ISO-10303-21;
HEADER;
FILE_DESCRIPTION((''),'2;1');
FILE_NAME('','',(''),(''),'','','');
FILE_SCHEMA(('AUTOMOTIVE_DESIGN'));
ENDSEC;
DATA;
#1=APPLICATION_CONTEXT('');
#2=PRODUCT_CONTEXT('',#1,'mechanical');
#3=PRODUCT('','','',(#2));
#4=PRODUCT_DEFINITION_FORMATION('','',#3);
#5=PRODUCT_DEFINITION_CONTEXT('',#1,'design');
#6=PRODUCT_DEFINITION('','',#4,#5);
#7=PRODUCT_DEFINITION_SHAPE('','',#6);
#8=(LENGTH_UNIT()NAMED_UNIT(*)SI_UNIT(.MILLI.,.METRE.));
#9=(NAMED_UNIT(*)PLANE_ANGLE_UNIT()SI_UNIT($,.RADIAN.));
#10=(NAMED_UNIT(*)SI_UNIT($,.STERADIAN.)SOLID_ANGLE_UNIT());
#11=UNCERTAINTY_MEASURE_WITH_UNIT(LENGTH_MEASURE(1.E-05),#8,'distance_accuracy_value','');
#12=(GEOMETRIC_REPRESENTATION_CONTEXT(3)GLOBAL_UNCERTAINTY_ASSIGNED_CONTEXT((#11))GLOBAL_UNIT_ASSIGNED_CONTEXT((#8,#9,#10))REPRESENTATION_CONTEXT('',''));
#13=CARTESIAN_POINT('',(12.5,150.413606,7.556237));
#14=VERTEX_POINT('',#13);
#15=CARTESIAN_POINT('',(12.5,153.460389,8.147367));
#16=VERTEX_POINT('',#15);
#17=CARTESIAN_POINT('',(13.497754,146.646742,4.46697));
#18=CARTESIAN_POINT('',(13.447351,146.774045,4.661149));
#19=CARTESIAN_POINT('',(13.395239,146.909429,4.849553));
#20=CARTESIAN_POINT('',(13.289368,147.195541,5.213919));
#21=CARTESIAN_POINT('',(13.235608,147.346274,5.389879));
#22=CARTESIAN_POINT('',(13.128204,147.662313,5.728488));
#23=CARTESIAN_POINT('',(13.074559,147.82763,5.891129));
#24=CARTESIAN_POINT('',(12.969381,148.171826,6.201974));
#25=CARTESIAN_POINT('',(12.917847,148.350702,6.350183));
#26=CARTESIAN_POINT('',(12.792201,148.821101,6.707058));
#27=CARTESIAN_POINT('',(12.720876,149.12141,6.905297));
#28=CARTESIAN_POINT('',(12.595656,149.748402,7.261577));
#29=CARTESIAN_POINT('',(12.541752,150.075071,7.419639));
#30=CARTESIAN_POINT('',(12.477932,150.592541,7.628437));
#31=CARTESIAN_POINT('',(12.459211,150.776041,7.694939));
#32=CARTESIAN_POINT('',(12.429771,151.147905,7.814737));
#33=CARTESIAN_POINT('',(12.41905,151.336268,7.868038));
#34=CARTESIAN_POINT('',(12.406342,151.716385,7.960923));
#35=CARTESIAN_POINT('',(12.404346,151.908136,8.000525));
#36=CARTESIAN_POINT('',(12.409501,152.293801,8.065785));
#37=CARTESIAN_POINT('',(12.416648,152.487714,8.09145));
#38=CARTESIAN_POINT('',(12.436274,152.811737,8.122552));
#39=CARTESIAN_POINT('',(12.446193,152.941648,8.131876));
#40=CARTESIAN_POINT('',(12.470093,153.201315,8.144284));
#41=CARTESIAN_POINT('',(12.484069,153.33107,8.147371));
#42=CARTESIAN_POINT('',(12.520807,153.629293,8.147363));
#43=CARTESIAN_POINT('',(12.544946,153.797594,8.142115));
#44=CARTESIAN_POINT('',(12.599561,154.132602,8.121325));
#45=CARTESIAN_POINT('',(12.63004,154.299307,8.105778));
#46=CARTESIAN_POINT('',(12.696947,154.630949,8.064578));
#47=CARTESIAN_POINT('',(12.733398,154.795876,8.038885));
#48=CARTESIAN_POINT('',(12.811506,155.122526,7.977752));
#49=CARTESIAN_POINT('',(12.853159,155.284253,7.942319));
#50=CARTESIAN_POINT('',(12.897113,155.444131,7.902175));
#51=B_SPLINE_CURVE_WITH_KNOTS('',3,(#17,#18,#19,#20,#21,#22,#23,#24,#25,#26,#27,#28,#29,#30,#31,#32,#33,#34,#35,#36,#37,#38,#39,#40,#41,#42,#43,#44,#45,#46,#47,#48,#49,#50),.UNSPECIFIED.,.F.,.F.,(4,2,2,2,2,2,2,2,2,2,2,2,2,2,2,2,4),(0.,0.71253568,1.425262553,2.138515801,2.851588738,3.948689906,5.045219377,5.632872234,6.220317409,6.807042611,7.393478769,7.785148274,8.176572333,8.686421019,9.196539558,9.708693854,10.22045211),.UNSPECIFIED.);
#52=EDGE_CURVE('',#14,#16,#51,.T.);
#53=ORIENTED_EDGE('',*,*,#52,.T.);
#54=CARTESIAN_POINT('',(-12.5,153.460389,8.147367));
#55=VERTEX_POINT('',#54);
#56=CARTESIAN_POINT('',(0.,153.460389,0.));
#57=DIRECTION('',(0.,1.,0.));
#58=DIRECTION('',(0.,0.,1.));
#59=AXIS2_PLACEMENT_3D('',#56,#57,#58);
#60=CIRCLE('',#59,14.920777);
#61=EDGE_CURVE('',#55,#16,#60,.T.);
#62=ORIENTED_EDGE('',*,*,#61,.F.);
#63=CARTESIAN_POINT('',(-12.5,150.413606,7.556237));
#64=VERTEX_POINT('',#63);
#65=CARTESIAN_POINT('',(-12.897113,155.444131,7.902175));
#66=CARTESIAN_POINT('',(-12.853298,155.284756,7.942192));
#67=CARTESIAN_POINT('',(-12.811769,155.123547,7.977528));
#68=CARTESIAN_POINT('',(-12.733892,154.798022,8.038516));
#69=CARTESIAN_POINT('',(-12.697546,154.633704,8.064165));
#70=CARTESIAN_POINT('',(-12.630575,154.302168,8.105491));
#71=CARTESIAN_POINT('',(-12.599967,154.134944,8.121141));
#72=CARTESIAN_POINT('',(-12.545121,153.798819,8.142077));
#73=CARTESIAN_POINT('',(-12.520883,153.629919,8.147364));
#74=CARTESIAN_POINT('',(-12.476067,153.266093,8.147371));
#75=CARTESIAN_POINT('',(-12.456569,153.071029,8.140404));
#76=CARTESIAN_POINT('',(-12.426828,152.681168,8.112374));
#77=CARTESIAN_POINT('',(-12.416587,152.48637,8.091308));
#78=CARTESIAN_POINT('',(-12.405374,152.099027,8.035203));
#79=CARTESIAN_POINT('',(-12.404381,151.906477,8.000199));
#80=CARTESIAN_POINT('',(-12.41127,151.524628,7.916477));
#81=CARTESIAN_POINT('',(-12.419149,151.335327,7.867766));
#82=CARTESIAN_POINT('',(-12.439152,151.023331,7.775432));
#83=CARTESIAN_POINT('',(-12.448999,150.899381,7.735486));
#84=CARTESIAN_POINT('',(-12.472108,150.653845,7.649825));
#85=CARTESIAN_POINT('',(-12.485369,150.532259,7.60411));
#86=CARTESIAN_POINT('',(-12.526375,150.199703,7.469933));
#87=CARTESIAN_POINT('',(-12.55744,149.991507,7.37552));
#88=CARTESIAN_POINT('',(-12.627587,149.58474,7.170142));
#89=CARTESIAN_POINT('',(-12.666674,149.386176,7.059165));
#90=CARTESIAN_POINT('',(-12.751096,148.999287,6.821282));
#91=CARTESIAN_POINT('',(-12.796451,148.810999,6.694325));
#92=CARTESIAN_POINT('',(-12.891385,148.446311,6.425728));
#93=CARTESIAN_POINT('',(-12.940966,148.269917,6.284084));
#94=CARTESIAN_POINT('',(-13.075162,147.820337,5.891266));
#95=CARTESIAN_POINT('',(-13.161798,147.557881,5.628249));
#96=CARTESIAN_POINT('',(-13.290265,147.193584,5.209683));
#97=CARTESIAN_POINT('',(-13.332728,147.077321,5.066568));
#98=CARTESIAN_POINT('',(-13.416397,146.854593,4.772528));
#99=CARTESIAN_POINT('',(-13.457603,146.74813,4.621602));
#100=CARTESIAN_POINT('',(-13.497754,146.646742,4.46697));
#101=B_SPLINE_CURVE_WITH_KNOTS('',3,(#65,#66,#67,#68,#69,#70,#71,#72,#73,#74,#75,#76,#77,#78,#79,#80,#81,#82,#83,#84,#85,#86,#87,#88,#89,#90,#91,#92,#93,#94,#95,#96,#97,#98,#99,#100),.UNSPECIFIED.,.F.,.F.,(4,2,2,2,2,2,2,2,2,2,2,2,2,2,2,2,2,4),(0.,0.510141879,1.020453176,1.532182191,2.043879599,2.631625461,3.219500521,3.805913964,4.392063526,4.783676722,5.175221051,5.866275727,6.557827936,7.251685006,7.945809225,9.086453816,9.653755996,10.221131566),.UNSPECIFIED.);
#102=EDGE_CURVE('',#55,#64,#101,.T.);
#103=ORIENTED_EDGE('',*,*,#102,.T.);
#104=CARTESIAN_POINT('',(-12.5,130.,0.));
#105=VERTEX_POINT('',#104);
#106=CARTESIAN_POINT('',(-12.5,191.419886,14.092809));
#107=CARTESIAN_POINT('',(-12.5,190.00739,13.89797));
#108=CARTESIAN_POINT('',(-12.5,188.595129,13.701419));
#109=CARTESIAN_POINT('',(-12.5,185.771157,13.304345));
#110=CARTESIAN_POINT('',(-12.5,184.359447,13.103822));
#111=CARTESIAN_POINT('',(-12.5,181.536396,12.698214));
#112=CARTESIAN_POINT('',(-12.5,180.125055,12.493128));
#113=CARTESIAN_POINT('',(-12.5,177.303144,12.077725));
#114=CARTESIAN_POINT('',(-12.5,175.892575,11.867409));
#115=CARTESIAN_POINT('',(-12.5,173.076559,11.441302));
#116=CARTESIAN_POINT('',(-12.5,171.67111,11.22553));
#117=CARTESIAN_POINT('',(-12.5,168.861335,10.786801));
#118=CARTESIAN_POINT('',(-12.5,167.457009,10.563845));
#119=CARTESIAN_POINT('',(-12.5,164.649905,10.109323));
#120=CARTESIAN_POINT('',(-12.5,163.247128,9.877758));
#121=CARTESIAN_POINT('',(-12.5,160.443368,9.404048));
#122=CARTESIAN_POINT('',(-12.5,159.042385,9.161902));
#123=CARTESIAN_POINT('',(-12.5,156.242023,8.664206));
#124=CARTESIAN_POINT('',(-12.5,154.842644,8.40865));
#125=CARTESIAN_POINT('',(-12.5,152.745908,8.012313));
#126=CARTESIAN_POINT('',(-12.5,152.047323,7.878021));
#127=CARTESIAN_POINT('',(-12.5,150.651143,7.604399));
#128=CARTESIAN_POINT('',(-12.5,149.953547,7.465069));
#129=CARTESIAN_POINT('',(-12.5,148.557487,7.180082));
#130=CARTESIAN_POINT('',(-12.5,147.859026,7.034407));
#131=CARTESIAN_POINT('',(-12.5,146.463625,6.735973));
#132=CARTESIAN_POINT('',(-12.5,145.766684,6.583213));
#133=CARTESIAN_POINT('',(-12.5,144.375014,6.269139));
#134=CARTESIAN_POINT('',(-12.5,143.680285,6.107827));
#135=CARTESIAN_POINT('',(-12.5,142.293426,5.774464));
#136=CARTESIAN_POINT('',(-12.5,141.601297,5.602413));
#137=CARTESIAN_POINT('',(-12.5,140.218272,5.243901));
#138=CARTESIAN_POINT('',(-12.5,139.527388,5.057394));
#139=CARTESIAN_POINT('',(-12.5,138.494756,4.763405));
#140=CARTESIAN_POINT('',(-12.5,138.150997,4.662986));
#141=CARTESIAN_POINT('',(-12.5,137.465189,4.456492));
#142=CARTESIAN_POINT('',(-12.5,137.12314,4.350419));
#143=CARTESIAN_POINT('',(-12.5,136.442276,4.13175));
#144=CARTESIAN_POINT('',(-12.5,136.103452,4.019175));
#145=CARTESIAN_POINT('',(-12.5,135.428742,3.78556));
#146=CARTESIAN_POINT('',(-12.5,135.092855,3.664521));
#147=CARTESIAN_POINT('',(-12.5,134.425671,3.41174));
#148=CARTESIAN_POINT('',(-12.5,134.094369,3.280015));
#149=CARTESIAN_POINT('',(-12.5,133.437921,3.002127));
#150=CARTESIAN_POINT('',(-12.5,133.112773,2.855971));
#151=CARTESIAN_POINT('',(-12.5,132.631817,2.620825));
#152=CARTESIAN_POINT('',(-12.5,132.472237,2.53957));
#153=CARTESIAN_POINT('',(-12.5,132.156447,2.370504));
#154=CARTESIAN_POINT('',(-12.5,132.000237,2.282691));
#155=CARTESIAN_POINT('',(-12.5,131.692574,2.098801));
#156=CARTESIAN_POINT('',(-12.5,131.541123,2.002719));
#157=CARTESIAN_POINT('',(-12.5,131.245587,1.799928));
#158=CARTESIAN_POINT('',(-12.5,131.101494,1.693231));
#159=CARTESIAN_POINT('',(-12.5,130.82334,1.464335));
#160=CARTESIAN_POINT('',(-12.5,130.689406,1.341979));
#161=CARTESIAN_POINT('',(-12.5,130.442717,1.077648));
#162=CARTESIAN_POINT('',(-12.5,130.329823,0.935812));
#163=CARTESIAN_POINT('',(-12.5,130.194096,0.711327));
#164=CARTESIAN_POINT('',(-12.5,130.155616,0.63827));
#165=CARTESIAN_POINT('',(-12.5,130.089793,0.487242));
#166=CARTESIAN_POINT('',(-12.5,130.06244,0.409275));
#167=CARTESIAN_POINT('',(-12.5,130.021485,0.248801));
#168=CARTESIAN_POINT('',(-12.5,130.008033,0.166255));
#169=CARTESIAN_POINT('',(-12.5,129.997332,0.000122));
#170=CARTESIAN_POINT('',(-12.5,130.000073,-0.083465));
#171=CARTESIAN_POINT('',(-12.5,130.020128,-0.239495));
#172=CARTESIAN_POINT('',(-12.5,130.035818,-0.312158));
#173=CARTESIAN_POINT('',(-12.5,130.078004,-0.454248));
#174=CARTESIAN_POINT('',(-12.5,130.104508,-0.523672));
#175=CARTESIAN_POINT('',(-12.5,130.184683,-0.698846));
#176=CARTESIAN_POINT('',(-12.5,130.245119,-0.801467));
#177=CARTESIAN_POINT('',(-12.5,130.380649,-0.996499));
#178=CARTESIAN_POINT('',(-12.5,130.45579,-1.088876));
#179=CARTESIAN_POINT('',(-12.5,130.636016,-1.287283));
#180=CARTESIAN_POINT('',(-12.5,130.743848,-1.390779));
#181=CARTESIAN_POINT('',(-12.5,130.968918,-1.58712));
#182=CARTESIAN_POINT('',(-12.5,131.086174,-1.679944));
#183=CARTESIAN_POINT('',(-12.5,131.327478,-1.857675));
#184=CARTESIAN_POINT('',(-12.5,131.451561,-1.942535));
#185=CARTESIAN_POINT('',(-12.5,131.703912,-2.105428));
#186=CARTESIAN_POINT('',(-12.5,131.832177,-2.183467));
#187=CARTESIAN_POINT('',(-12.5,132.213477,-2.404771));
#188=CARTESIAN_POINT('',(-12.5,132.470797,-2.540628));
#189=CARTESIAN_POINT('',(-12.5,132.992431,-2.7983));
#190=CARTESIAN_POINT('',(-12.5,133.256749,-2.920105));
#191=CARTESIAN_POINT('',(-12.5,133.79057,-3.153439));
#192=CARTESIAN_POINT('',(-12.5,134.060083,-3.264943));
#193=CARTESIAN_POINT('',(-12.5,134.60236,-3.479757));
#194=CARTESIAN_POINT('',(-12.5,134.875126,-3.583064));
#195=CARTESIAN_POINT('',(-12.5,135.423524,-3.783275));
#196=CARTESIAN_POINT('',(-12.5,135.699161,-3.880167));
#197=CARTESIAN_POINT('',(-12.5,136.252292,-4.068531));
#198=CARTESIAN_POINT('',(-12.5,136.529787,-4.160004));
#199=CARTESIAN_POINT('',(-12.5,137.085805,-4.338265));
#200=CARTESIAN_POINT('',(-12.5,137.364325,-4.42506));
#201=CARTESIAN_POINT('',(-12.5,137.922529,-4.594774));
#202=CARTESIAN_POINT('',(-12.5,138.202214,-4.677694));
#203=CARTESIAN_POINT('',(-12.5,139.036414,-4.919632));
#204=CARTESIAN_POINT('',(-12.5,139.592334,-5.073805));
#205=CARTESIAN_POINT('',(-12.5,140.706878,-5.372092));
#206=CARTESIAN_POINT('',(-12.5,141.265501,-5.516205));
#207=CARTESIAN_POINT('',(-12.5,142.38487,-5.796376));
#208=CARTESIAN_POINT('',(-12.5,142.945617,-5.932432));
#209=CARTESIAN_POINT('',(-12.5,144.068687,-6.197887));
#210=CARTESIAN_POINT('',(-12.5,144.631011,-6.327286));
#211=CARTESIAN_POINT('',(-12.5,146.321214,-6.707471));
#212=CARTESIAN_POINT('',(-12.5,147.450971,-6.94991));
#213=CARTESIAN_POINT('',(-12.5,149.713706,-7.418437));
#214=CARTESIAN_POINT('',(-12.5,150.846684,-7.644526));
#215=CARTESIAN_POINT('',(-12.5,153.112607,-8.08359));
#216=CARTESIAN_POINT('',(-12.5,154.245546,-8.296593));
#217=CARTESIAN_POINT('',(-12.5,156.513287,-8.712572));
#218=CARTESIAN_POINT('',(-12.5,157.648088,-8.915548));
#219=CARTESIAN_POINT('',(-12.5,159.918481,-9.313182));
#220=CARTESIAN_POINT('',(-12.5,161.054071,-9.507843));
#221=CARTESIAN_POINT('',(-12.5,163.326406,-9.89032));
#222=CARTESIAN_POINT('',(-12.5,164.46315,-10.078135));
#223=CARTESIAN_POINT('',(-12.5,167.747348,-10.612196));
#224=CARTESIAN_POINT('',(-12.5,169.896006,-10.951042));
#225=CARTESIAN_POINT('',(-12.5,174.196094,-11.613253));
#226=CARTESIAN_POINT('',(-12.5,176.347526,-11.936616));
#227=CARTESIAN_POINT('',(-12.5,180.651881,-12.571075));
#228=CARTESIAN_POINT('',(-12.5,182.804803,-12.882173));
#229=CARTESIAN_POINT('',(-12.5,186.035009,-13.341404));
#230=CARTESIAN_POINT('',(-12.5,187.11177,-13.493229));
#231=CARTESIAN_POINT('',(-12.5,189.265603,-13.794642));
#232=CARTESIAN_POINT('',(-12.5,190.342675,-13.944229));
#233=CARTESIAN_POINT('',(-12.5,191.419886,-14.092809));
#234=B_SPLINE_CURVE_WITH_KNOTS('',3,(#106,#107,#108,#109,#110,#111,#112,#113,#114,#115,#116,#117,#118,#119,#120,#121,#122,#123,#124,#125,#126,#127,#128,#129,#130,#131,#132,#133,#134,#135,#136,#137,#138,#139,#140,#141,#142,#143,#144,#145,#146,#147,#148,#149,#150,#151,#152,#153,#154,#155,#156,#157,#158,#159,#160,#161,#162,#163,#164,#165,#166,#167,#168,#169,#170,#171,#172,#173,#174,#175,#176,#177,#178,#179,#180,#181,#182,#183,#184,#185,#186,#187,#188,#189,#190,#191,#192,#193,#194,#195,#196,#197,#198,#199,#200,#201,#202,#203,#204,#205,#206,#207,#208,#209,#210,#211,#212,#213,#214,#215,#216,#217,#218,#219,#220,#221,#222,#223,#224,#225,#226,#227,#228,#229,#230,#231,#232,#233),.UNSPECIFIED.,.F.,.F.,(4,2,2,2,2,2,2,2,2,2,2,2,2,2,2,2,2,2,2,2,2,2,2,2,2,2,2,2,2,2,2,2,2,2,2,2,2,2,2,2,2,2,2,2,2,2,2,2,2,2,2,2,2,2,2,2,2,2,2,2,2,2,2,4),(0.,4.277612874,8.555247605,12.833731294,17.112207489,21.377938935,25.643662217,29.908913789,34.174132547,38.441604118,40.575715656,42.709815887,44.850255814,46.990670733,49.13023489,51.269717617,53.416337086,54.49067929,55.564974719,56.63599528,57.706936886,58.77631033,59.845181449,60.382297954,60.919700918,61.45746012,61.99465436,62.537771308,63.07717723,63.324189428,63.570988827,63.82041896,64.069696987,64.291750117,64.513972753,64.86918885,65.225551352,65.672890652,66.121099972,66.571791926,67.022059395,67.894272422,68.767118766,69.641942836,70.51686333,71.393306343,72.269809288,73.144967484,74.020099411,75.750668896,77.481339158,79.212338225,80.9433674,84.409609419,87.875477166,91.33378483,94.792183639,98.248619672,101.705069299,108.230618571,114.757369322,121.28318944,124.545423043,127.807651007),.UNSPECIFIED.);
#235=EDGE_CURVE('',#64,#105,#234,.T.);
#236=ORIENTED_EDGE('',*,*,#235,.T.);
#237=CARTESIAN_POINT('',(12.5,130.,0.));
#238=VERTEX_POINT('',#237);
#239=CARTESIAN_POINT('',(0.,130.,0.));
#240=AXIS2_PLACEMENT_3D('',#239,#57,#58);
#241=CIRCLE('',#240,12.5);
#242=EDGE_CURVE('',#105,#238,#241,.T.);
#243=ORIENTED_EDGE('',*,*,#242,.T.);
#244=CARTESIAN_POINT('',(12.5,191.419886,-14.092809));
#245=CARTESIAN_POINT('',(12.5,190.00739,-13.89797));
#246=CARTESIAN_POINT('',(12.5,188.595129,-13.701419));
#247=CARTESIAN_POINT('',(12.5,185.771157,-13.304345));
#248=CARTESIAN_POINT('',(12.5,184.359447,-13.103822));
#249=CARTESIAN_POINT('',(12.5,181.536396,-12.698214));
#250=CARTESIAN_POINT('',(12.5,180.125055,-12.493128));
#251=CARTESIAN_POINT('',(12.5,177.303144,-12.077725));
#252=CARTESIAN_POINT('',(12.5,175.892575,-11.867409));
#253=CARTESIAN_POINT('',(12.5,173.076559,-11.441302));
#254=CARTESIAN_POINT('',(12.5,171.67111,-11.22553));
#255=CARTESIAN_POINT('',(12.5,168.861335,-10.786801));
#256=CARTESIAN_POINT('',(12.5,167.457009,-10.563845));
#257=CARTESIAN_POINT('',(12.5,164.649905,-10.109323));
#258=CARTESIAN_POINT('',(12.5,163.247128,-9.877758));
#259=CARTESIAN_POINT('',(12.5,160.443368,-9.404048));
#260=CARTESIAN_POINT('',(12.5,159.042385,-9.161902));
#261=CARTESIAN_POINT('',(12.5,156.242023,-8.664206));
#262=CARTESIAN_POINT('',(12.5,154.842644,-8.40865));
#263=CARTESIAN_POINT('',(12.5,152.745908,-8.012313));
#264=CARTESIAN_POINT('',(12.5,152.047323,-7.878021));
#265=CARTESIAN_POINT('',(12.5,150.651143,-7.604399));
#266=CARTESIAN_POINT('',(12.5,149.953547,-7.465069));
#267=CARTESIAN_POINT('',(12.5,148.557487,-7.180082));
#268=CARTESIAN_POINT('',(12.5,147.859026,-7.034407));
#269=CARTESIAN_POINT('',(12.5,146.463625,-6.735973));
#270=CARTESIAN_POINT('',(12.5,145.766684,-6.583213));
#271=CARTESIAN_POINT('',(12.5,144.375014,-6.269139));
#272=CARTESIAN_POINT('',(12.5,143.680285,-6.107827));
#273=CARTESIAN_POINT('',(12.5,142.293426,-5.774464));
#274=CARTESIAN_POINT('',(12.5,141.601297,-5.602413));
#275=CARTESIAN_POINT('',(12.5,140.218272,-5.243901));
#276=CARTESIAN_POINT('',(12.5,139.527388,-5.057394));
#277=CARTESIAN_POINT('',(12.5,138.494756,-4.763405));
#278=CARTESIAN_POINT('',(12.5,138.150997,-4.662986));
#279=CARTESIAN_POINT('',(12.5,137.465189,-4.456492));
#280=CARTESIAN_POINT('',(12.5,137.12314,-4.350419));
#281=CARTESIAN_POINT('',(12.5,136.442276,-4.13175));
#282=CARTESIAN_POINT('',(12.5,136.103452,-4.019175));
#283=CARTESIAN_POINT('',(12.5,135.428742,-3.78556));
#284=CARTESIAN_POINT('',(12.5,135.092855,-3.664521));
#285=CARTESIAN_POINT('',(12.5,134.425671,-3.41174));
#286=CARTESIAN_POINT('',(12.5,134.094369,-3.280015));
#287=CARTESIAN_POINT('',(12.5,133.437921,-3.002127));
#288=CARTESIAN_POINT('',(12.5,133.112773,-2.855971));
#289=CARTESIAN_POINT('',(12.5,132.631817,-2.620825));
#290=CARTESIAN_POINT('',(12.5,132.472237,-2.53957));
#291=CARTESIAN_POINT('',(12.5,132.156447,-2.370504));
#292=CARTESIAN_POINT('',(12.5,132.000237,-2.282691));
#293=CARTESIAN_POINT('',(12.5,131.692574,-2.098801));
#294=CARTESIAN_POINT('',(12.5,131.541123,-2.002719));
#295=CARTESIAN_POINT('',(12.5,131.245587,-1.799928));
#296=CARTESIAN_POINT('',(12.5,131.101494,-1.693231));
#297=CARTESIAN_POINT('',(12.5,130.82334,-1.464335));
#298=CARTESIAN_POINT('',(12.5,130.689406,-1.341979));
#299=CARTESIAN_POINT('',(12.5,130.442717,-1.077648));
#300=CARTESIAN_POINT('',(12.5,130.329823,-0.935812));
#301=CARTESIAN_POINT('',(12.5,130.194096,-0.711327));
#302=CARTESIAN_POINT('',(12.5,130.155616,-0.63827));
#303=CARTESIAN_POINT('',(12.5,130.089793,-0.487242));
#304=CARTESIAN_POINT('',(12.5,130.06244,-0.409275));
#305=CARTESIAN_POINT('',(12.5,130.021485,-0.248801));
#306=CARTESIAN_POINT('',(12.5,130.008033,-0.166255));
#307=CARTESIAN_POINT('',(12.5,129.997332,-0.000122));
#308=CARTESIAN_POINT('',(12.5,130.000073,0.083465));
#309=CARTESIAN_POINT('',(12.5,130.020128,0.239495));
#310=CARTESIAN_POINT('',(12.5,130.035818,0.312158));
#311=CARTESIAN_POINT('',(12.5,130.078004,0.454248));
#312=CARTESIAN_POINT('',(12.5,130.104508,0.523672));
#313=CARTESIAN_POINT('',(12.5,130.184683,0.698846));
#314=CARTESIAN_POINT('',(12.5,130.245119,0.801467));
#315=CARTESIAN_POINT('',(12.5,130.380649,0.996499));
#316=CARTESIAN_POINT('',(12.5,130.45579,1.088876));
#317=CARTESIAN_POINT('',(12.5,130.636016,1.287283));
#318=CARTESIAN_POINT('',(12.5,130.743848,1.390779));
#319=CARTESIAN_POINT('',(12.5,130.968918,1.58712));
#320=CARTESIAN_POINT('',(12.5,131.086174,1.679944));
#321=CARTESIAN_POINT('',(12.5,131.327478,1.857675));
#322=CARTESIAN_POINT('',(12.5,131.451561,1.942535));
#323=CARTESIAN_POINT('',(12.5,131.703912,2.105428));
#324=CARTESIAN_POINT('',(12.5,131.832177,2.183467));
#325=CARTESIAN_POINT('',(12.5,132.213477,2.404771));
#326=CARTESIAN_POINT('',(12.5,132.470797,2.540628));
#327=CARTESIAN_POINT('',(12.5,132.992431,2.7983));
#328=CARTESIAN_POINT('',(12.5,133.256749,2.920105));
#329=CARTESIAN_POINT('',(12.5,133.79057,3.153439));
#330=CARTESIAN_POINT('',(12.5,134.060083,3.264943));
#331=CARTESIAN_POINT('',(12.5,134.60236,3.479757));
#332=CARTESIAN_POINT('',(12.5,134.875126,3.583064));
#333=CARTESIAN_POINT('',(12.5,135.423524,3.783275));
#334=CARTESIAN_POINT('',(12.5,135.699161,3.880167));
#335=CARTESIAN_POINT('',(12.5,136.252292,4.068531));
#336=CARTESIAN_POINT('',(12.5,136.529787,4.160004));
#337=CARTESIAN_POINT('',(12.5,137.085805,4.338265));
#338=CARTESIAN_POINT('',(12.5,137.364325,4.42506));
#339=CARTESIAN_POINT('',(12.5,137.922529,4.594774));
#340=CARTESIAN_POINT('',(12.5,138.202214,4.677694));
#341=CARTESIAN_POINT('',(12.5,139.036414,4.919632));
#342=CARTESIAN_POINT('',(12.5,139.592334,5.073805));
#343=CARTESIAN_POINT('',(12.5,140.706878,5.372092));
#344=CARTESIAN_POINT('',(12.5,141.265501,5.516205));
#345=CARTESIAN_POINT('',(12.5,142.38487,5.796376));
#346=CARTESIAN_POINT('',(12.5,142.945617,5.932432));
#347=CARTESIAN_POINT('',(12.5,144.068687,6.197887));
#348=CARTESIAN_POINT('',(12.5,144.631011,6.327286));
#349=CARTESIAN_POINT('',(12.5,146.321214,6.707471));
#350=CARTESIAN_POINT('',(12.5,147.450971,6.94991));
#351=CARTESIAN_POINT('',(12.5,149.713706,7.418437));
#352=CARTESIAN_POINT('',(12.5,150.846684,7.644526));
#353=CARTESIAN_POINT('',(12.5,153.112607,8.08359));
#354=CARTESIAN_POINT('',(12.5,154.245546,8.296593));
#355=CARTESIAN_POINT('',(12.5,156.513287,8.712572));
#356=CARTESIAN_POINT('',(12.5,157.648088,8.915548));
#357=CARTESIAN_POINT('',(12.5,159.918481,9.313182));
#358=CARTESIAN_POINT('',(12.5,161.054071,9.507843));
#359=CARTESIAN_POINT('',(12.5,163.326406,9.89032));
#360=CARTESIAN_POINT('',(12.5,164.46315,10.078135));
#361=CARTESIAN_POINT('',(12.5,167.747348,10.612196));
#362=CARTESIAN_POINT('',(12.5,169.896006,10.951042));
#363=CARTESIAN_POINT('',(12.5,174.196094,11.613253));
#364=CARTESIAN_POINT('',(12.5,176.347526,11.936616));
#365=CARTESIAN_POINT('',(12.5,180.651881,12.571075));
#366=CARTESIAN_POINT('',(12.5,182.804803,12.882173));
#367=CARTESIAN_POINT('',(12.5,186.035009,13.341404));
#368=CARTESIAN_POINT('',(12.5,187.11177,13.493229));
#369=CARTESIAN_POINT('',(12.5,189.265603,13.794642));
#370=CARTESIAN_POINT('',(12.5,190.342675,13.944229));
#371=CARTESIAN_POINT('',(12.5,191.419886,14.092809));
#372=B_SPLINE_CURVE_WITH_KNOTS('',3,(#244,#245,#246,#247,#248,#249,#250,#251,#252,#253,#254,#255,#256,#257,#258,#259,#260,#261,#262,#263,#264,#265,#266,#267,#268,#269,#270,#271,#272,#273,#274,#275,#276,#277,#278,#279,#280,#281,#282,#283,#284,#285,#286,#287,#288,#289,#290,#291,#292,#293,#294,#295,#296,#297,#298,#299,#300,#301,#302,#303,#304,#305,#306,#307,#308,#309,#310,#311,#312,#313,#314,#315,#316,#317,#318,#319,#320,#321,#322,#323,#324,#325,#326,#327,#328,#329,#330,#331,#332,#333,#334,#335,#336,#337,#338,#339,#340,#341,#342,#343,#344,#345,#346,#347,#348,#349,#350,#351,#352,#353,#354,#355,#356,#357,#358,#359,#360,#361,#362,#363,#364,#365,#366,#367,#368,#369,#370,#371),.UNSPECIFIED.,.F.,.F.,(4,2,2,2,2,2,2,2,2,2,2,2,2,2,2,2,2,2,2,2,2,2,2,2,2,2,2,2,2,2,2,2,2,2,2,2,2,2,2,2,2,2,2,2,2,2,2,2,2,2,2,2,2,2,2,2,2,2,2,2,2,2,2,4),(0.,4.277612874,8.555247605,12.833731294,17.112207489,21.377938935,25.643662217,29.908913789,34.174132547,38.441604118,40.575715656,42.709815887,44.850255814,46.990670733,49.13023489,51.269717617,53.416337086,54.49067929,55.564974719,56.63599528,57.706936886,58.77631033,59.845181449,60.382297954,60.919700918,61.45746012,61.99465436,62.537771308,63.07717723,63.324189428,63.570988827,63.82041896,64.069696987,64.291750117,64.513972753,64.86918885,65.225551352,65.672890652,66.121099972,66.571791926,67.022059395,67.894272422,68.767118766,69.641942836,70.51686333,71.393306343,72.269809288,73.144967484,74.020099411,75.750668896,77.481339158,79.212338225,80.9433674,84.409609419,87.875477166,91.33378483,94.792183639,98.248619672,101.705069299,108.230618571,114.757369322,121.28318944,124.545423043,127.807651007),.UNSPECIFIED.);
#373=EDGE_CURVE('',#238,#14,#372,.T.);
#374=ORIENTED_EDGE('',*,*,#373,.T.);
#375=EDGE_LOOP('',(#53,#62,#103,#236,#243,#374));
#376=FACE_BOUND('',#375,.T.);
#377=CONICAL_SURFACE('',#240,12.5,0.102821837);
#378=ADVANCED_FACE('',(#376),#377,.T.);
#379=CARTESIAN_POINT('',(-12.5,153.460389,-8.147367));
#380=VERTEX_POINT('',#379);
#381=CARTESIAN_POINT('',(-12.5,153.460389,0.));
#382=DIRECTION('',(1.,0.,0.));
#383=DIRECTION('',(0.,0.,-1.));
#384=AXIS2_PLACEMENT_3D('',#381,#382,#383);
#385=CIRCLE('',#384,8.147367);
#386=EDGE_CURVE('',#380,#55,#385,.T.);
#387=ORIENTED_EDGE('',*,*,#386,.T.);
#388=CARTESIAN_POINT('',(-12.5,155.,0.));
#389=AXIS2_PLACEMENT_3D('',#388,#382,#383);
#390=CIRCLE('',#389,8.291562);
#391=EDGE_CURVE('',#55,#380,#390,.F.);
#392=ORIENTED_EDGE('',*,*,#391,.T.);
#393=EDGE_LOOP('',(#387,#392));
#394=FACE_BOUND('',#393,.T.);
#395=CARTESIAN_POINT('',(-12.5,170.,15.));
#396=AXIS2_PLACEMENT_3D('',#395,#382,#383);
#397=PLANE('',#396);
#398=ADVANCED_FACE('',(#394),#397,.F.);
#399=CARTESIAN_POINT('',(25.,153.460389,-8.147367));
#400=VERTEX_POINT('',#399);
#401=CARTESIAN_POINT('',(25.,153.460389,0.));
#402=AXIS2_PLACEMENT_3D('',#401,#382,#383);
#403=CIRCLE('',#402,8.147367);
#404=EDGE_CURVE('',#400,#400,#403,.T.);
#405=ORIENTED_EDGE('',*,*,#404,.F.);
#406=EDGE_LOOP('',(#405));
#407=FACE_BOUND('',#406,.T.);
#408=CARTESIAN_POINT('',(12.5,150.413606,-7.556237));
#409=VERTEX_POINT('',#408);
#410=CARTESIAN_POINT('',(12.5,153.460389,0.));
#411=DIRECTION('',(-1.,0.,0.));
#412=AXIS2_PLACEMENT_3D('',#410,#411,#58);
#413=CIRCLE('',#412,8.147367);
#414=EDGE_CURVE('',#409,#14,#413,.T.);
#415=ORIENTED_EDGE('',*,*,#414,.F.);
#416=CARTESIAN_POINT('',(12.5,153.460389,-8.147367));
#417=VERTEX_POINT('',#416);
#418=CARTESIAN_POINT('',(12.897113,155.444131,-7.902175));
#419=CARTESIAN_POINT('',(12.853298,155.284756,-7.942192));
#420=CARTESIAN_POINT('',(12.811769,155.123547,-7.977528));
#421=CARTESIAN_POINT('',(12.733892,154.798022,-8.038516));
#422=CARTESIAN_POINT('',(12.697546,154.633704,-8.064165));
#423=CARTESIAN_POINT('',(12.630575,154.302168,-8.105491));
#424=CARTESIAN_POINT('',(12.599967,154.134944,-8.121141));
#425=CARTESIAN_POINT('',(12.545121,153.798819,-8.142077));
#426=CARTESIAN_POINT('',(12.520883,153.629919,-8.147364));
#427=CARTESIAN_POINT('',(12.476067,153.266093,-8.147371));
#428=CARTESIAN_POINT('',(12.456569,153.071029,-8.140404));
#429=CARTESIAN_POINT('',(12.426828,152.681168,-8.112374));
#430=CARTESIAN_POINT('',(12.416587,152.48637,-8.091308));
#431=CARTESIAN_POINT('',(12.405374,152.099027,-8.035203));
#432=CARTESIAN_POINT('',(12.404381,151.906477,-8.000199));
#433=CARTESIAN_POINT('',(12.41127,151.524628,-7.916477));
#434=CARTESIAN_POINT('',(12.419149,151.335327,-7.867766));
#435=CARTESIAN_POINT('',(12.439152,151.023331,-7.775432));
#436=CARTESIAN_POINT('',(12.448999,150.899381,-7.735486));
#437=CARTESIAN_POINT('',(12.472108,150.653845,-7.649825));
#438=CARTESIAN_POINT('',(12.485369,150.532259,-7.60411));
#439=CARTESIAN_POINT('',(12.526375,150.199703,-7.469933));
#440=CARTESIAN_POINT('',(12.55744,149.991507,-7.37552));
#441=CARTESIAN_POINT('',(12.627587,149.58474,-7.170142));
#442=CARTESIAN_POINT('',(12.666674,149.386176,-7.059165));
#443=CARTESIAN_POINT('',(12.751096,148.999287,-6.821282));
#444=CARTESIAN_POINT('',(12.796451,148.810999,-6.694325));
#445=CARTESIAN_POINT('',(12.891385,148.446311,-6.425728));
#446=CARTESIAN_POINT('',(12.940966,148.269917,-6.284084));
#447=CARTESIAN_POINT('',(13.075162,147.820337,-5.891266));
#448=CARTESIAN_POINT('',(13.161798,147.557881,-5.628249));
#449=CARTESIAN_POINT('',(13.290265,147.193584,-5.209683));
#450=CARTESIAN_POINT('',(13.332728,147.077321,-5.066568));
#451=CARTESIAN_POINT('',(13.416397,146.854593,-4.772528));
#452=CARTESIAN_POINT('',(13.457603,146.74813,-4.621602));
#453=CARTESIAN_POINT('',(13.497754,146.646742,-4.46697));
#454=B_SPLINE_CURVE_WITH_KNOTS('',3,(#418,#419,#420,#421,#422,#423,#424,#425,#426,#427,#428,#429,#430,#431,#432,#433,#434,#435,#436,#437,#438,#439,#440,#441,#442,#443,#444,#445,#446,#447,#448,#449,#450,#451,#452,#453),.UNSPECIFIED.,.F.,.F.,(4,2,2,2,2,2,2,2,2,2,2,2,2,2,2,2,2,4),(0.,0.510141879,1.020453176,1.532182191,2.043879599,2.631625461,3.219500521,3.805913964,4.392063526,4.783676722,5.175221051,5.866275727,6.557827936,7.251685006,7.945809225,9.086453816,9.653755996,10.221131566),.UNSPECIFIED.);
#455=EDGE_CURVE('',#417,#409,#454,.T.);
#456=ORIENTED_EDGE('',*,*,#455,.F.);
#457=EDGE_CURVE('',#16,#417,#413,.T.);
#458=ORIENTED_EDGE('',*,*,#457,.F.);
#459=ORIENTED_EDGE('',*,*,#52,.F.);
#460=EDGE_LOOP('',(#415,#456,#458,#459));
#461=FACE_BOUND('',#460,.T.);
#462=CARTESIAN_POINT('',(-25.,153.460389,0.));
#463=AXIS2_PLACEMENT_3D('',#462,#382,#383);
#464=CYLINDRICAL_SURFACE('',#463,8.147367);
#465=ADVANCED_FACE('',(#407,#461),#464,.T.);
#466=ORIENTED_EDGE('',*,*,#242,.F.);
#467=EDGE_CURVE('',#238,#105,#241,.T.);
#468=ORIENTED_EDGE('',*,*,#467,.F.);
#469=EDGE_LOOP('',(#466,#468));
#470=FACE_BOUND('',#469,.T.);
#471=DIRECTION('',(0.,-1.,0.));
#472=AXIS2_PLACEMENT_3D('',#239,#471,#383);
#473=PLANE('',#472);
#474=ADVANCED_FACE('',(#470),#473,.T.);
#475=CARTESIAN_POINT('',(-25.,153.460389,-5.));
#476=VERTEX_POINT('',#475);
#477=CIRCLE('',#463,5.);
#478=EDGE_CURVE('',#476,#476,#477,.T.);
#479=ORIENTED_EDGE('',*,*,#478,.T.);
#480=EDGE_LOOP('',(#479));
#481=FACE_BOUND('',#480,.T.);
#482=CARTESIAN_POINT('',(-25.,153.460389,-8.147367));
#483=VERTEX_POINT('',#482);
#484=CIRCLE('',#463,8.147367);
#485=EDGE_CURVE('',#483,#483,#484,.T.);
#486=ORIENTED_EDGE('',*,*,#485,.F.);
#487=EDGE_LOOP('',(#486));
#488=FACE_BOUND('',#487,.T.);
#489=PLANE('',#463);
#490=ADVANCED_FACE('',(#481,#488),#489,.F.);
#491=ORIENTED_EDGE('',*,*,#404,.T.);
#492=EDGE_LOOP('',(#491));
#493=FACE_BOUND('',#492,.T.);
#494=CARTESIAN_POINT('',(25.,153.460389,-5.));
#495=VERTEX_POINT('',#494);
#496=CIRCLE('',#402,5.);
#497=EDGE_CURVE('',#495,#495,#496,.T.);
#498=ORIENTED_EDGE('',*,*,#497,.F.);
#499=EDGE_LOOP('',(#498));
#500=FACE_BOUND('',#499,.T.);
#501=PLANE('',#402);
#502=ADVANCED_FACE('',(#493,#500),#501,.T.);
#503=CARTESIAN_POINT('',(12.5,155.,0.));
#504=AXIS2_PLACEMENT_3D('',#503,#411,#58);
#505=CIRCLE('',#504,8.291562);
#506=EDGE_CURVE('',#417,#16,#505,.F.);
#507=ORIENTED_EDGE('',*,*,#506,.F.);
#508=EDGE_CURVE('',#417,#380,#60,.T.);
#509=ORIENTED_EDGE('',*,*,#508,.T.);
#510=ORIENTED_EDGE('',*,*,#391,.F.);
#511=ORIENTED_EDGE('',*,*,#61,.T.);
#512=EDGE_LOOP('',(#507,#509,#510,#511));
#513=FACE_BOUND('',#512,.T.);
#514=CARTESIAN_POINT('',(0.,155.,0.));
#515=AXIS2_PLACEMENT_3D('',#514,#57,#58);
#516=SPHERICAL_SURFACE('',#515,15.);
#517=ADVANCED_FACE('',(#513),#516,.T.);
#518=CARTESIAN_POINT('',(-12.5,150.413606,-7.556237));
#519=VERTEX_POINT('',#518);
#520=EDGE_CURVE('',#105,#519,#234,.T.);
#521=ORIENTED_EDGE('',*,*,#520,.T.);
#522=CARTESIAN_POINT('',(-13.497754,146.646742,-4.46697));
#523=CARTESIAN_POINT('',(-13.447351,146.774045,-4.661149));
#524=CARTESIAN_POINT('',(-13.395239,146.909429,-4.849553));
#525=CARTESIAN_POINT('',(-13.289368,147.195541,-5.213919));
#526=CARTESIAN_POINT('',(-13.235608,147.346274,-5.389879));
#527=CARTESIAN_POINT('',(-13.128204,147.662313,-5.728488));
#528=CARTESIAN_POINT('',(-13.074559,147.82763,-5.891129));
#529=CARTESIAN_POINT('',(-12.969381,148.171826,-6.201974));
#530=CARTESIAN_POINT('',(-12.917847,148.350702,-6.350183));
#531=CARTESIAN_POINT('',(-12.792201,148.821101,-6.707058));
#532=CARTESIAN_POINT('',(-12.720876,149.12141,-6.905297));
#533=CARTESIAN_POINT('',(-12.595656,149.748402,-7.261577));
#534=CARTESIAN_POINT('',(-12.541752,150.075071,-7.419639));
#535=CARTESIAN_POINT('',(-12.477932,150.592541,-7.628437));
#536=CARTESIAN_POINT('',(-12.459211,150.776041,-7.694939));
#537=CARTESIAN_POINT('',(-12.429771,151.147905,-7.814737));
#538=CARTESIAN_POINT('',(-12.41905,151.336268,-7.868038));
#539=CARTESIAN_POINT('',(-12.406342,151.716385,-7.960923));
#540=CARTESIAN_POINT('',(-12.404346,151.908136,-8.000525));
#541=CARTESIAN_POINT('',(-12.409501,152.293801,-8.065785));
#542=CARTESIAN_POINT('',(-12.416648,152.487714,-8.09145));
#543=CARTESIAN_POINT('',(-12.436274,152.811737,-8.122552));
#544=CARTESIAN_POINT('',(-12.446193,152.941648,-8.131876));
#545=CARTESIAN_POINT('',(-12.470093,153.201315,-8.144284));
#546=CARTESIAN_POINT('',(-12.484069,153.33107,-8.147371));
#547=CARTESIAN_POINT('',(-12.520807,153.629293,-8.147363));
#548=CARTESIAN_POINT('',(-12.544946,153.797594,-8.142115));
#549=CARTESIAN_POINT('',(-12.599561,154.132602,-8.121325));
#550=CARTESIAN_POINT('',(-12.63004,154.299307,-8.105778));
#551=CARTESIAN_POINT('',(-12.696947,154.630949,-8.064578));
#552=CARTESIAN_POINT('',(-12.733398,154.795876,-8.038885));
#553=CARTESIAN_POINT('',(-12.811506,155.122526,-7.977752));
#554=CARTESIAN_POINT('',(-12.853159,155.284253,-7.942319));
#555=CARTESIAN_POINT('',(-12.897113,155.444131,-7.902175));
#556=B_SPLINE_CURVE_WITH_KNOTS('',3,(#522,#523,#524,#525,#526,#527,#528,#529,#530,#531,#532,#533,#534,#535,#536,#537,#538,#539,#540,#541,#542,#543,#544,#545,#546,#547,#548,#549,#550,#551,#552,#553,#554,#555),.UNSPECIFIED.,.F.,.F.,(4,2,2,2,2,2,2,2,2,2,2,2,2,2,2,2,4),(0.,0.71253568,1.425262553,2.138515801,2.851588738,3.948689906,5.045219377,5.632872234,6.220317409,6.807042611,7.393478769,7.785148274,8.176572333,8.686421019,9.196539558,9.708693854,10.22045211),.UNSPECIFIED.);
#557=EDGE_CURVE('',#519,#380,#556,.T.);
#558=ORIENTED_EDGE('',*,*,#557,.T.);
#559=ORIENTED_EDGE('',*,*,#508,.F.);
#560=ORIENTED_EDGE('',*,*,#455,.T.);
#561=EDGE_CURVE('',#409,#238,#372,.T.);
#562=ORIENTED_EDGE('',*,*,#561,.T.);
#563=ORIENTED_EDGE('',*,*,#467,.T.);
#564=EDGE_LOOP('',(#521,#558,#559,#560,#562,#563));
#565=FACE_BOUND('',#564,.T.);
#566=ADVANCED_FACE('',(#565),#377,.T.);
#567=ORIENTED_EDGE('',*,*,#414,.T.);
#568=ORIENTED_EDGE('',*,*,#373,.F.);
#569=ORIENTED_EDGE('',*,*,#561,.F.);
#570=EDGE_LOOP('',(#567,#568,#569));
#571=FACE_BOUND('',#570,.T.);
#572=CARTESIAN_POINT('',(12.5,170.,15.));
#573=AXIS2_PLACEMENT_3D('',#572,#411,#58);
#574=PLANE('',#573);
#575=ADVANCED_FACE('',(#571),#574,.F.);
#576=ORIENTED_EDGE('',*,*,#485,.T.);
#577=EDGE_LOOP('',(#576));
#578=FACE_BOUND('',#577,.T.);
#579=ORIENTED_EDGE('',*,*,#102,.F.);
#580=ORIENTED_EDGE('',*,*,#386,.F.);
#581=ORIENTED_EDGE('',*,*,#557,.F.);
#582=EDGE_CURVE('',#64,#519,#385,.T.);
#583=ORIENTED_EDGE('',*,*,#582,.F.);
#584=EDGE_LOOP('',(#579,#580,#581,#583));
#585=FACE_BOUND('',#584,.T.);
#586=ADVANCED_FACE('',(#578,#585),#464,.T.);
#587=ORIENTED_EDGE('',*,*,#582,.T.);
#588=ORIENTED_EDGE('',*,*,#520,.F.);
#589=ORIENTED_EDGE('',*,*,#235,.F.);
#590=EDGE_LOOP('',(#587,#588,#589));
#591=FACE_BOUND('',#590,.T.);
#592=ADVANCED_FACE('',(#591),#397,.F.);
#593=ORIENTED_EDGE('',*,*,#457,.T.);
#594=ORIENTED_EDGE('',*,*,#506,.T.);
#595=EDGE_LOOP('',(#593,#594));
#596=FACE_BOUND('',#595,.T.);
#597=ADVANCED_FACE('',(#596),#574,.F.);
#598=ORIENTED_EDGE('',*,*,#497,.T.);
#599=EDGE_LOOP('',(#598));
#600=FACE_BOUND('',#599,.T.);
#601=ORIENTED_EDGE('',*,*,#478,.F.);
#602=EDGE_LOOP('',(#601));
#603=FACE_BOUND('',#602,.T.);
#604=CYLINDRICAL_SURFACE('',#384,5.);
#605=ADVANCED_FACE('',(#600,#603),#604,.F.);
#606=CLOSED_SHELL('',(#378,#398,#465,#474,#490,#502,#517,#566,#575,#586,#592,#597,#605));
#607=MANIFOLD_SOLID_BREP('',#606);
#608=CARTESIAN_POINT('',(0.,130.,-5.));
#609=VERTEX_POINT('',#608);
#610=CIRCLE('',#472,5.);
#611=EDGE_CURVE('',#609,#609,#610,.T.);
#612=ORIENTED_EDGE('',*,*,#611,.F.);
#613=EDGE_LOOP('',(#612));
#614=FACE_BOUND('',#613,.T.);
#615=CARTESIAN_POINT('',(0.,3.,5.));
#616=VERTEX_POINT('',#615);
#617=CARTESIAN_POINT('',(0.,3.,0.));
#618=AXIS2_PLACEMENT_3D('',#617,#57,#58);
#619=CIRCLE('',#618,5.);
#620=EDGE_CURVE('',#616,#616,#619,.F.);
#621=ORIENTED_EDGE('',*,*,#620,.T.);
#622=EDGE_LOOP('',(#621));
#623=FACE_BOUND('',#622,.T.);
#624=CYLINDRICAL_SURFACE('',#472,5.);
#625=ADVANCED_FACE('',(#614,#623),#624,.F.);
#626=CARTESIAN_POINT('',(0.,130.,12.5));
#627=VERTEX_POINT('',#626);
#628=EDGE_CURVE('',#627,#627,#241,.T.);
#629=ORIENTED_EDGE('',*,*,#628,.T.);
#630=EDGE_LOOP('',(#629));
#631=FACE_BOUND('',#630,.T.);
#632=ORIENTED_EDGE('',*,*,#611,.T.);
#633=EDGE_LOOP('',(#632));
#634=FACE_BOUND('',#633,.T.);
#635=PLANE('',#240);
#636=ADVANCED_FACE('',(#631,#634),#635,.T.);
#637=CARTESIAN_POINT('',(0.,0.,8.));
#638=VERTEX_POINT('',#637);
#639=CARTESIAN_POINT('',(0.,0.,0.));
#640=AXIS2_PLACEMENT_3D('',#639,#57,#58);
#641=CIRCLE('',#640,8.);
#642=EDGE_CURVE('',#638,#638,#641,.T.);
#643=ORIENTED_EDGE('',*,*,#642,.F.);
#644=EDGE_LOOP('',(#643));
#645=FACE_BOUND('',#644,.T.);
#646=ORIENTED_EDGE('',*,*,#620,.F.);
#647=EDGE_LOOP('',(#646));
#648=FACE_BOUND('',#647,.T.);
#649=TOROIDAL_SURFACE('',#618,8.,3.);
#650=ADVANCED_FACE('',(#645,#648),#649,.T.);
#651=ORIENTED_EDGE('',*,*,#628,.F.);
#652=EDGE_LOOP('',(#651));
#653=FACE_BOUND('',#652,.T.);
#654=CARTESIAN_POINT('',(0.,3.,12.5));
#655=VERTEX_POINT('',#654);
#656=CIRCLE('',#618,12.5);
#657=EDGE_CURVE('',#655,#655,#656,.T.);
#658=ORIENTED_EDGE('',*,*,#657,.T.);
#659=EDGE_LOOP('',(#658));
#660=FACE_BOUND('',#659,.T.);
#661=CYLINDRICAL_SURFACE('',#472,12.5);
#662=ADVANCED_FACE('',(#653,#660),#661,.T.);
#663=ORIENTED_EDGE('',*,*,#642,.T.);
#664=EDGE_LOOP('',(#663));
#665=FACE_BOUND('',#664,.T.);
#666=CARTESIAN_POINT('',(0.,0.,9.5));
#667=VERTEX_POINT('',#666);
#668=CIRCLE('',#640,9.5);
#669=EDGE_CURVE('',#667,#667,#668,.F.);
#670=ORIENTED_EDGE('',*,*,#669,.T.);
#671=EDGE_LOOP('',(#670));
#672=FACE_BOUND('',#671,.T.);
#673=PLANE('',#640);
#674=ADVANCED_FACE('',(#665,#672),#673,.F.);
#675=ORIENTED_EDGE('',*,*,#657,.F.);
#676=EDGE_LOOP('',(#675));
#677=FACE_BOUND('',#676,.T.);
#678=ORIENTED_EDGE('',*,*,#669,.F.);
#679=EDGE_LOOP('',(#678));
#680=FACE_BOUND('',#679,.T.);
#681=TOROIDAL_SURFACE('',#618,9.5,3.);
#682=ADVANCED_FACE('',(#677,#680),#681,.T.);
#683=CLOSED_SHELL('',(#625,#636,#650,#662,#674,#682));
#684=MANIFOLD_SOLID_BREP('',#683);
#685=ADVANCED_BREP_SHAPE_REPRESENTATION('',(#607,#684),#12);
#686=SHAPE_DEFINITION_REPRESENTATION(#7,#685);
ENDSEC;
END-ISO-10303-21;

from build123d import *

# Parameters (mm, degrees)
SZKIC1_R                         = 12.5
DODANIE_WYCI_GNI_CIE1_DEPTH      = 130
SZKIC3_W                         = 5
SZKIC3_H                         = 30
WYTNIJ_WYCI_GNI_CIE1_DEPTH       = 172.31841699
SZKIC4_R                         = 5
WYTNIJ_WYCI_GNI_CIE2_DEPTH       = 173.481883107
SZKIC5_R                         = 5
WYTNIJ_WYCI_GNI_CIE3_DEPTH       = 130
ZAOKR_GLENIE1_R                  = 3
DODANIE_WYCI_GNI_CIE2_DEPTH      = 25
DODANIE_WYCI_GNI_CIE2_DEPTH_BACK = 25
SZKIC6_R                         = 8.147367488
SZKIC6_R_2                       = 5


with BuildPart() as part:
    # Szkic1 → Dodanie-wyciągnięcie1 (new body)
    with BuildSketch(Plane(origin=(0, 0, 0), x_dir=(1, 0, 0), z_dir=(0, 1, 0))):
        with Locations(Location((0, 0, 0), (0, 0, 270))):
            Circle(SZKIC1_R)
    extrude(amount=DODANIE_WYCI_GNI_CIE1_DEPTH)

    # Szkic5 → Wytnij-wyciągnięcie3 (cut)
    with BuildSketch(Plane.XZ):
        with Locations(Location((0, 0, 0), (0, 0, 270))):
            Circle(SZKIC5_R)
    extrude(amount=-WYTNIJ_WYCI_GNI_CIE3_DEPTH, mode=Mode.SUBTRACT)

    # Zaokrąglenie1
    zaokr_glenie1_edges = [part.edges().sort_by_distance(p)[0] for p in [
        (0, 0, -12.5),
        (0, 0, 5),
    ]]
    fillet(zaokr_glenie1_edges, radius=ZAOKR_GLENIE1_R)


with BuildPart() as body_2:
    # Szkic2 → Obrót1 (revolve)
    with BuildSketch(Plane(origin=(0, 0, 0), x_dir=(0, 0, -1), z_dir=(1, 0, 0)), mode=Mode.PRIVATE) as obr_t1_sk:
        with BuildLine():
            ThreePointArc((0, 170), (15, 155), (0, 140))
            Line((0, 140), (0, 170))
        make_face()
        with BuildLine():
            Line((0, 130), (12.5, 130))
            Line((12.5, 130), (14.920777358, 153.460388679))
            ThreePointArc((14.920777358, 153.460388679), (10.047532786, 143.8623573), (0, 140))
            Line((0, 140), (0, 130))
        make_face()
    revolve(obr_t1_sk.sketch.rotate(Axis((0, 182.123097576, 0), (0, -1, 0)), 180), axis=Axis((0, 182.123097576, 0), (0, -1, 0)))

    # Szkic3 → Wytnij-wyciągnięcie1 (cut, through all)
    with BuildSketch(Plane.XZ):
        with Locations((-15, 0)):
            Rectangle(SZKIC3_W, SZKIC3_H)
        with Locations((15, 0)):
            Rectangle(SZKIC3_W, SZKIC3_H)
    extrude(amount=-WYTNIJ_WYCI_GNI_CIE1_DEPTH, mode=Mode.SUBTRACT)

    # Szkic4 → Wytnij-wyciągnięcie2 (cut, through all)
    with BuildSketch(Plane(origin=(12.5, 0, 0), x_dir=(0, 0, -1), z_dir=(1, 0, 0))):
        with Locations((0, 153.460388679)):
            Circle(SZKIC4_R)
    extrude(amount=-WYTNIJ_WYCI_GNI_CIE2_DEPTH, mode=Mode.SUBTRACT)

    # Szkic6 → Dodanie-wyciągnięcie2 (add, two sides: drawn at the far end of the back side and taken through both)
    with BuildSketch(Plane(origin=(0, 0, 0), x_dir=(0, 0, -1), z_dir=(1, 0, 0)).offset(-DODANIE_WYCI_GNI_CIE2_DEPTH_BACK)):
        with Locations((0, 153.460388679)):
            Circle(SZKIC6_R)
        with Locations((0, 153.460388679)):
            Circle(SZKIC6_R_2, mode=Mode.SUBTRACT)
    extrude(amount=DODANIE_WYCI_GNI_CIE2_DEPTH + DODANIE_WYCI_GNI_CIE2_DEPTH_BACK)


solid = Compound([part.part, body_2.part])
